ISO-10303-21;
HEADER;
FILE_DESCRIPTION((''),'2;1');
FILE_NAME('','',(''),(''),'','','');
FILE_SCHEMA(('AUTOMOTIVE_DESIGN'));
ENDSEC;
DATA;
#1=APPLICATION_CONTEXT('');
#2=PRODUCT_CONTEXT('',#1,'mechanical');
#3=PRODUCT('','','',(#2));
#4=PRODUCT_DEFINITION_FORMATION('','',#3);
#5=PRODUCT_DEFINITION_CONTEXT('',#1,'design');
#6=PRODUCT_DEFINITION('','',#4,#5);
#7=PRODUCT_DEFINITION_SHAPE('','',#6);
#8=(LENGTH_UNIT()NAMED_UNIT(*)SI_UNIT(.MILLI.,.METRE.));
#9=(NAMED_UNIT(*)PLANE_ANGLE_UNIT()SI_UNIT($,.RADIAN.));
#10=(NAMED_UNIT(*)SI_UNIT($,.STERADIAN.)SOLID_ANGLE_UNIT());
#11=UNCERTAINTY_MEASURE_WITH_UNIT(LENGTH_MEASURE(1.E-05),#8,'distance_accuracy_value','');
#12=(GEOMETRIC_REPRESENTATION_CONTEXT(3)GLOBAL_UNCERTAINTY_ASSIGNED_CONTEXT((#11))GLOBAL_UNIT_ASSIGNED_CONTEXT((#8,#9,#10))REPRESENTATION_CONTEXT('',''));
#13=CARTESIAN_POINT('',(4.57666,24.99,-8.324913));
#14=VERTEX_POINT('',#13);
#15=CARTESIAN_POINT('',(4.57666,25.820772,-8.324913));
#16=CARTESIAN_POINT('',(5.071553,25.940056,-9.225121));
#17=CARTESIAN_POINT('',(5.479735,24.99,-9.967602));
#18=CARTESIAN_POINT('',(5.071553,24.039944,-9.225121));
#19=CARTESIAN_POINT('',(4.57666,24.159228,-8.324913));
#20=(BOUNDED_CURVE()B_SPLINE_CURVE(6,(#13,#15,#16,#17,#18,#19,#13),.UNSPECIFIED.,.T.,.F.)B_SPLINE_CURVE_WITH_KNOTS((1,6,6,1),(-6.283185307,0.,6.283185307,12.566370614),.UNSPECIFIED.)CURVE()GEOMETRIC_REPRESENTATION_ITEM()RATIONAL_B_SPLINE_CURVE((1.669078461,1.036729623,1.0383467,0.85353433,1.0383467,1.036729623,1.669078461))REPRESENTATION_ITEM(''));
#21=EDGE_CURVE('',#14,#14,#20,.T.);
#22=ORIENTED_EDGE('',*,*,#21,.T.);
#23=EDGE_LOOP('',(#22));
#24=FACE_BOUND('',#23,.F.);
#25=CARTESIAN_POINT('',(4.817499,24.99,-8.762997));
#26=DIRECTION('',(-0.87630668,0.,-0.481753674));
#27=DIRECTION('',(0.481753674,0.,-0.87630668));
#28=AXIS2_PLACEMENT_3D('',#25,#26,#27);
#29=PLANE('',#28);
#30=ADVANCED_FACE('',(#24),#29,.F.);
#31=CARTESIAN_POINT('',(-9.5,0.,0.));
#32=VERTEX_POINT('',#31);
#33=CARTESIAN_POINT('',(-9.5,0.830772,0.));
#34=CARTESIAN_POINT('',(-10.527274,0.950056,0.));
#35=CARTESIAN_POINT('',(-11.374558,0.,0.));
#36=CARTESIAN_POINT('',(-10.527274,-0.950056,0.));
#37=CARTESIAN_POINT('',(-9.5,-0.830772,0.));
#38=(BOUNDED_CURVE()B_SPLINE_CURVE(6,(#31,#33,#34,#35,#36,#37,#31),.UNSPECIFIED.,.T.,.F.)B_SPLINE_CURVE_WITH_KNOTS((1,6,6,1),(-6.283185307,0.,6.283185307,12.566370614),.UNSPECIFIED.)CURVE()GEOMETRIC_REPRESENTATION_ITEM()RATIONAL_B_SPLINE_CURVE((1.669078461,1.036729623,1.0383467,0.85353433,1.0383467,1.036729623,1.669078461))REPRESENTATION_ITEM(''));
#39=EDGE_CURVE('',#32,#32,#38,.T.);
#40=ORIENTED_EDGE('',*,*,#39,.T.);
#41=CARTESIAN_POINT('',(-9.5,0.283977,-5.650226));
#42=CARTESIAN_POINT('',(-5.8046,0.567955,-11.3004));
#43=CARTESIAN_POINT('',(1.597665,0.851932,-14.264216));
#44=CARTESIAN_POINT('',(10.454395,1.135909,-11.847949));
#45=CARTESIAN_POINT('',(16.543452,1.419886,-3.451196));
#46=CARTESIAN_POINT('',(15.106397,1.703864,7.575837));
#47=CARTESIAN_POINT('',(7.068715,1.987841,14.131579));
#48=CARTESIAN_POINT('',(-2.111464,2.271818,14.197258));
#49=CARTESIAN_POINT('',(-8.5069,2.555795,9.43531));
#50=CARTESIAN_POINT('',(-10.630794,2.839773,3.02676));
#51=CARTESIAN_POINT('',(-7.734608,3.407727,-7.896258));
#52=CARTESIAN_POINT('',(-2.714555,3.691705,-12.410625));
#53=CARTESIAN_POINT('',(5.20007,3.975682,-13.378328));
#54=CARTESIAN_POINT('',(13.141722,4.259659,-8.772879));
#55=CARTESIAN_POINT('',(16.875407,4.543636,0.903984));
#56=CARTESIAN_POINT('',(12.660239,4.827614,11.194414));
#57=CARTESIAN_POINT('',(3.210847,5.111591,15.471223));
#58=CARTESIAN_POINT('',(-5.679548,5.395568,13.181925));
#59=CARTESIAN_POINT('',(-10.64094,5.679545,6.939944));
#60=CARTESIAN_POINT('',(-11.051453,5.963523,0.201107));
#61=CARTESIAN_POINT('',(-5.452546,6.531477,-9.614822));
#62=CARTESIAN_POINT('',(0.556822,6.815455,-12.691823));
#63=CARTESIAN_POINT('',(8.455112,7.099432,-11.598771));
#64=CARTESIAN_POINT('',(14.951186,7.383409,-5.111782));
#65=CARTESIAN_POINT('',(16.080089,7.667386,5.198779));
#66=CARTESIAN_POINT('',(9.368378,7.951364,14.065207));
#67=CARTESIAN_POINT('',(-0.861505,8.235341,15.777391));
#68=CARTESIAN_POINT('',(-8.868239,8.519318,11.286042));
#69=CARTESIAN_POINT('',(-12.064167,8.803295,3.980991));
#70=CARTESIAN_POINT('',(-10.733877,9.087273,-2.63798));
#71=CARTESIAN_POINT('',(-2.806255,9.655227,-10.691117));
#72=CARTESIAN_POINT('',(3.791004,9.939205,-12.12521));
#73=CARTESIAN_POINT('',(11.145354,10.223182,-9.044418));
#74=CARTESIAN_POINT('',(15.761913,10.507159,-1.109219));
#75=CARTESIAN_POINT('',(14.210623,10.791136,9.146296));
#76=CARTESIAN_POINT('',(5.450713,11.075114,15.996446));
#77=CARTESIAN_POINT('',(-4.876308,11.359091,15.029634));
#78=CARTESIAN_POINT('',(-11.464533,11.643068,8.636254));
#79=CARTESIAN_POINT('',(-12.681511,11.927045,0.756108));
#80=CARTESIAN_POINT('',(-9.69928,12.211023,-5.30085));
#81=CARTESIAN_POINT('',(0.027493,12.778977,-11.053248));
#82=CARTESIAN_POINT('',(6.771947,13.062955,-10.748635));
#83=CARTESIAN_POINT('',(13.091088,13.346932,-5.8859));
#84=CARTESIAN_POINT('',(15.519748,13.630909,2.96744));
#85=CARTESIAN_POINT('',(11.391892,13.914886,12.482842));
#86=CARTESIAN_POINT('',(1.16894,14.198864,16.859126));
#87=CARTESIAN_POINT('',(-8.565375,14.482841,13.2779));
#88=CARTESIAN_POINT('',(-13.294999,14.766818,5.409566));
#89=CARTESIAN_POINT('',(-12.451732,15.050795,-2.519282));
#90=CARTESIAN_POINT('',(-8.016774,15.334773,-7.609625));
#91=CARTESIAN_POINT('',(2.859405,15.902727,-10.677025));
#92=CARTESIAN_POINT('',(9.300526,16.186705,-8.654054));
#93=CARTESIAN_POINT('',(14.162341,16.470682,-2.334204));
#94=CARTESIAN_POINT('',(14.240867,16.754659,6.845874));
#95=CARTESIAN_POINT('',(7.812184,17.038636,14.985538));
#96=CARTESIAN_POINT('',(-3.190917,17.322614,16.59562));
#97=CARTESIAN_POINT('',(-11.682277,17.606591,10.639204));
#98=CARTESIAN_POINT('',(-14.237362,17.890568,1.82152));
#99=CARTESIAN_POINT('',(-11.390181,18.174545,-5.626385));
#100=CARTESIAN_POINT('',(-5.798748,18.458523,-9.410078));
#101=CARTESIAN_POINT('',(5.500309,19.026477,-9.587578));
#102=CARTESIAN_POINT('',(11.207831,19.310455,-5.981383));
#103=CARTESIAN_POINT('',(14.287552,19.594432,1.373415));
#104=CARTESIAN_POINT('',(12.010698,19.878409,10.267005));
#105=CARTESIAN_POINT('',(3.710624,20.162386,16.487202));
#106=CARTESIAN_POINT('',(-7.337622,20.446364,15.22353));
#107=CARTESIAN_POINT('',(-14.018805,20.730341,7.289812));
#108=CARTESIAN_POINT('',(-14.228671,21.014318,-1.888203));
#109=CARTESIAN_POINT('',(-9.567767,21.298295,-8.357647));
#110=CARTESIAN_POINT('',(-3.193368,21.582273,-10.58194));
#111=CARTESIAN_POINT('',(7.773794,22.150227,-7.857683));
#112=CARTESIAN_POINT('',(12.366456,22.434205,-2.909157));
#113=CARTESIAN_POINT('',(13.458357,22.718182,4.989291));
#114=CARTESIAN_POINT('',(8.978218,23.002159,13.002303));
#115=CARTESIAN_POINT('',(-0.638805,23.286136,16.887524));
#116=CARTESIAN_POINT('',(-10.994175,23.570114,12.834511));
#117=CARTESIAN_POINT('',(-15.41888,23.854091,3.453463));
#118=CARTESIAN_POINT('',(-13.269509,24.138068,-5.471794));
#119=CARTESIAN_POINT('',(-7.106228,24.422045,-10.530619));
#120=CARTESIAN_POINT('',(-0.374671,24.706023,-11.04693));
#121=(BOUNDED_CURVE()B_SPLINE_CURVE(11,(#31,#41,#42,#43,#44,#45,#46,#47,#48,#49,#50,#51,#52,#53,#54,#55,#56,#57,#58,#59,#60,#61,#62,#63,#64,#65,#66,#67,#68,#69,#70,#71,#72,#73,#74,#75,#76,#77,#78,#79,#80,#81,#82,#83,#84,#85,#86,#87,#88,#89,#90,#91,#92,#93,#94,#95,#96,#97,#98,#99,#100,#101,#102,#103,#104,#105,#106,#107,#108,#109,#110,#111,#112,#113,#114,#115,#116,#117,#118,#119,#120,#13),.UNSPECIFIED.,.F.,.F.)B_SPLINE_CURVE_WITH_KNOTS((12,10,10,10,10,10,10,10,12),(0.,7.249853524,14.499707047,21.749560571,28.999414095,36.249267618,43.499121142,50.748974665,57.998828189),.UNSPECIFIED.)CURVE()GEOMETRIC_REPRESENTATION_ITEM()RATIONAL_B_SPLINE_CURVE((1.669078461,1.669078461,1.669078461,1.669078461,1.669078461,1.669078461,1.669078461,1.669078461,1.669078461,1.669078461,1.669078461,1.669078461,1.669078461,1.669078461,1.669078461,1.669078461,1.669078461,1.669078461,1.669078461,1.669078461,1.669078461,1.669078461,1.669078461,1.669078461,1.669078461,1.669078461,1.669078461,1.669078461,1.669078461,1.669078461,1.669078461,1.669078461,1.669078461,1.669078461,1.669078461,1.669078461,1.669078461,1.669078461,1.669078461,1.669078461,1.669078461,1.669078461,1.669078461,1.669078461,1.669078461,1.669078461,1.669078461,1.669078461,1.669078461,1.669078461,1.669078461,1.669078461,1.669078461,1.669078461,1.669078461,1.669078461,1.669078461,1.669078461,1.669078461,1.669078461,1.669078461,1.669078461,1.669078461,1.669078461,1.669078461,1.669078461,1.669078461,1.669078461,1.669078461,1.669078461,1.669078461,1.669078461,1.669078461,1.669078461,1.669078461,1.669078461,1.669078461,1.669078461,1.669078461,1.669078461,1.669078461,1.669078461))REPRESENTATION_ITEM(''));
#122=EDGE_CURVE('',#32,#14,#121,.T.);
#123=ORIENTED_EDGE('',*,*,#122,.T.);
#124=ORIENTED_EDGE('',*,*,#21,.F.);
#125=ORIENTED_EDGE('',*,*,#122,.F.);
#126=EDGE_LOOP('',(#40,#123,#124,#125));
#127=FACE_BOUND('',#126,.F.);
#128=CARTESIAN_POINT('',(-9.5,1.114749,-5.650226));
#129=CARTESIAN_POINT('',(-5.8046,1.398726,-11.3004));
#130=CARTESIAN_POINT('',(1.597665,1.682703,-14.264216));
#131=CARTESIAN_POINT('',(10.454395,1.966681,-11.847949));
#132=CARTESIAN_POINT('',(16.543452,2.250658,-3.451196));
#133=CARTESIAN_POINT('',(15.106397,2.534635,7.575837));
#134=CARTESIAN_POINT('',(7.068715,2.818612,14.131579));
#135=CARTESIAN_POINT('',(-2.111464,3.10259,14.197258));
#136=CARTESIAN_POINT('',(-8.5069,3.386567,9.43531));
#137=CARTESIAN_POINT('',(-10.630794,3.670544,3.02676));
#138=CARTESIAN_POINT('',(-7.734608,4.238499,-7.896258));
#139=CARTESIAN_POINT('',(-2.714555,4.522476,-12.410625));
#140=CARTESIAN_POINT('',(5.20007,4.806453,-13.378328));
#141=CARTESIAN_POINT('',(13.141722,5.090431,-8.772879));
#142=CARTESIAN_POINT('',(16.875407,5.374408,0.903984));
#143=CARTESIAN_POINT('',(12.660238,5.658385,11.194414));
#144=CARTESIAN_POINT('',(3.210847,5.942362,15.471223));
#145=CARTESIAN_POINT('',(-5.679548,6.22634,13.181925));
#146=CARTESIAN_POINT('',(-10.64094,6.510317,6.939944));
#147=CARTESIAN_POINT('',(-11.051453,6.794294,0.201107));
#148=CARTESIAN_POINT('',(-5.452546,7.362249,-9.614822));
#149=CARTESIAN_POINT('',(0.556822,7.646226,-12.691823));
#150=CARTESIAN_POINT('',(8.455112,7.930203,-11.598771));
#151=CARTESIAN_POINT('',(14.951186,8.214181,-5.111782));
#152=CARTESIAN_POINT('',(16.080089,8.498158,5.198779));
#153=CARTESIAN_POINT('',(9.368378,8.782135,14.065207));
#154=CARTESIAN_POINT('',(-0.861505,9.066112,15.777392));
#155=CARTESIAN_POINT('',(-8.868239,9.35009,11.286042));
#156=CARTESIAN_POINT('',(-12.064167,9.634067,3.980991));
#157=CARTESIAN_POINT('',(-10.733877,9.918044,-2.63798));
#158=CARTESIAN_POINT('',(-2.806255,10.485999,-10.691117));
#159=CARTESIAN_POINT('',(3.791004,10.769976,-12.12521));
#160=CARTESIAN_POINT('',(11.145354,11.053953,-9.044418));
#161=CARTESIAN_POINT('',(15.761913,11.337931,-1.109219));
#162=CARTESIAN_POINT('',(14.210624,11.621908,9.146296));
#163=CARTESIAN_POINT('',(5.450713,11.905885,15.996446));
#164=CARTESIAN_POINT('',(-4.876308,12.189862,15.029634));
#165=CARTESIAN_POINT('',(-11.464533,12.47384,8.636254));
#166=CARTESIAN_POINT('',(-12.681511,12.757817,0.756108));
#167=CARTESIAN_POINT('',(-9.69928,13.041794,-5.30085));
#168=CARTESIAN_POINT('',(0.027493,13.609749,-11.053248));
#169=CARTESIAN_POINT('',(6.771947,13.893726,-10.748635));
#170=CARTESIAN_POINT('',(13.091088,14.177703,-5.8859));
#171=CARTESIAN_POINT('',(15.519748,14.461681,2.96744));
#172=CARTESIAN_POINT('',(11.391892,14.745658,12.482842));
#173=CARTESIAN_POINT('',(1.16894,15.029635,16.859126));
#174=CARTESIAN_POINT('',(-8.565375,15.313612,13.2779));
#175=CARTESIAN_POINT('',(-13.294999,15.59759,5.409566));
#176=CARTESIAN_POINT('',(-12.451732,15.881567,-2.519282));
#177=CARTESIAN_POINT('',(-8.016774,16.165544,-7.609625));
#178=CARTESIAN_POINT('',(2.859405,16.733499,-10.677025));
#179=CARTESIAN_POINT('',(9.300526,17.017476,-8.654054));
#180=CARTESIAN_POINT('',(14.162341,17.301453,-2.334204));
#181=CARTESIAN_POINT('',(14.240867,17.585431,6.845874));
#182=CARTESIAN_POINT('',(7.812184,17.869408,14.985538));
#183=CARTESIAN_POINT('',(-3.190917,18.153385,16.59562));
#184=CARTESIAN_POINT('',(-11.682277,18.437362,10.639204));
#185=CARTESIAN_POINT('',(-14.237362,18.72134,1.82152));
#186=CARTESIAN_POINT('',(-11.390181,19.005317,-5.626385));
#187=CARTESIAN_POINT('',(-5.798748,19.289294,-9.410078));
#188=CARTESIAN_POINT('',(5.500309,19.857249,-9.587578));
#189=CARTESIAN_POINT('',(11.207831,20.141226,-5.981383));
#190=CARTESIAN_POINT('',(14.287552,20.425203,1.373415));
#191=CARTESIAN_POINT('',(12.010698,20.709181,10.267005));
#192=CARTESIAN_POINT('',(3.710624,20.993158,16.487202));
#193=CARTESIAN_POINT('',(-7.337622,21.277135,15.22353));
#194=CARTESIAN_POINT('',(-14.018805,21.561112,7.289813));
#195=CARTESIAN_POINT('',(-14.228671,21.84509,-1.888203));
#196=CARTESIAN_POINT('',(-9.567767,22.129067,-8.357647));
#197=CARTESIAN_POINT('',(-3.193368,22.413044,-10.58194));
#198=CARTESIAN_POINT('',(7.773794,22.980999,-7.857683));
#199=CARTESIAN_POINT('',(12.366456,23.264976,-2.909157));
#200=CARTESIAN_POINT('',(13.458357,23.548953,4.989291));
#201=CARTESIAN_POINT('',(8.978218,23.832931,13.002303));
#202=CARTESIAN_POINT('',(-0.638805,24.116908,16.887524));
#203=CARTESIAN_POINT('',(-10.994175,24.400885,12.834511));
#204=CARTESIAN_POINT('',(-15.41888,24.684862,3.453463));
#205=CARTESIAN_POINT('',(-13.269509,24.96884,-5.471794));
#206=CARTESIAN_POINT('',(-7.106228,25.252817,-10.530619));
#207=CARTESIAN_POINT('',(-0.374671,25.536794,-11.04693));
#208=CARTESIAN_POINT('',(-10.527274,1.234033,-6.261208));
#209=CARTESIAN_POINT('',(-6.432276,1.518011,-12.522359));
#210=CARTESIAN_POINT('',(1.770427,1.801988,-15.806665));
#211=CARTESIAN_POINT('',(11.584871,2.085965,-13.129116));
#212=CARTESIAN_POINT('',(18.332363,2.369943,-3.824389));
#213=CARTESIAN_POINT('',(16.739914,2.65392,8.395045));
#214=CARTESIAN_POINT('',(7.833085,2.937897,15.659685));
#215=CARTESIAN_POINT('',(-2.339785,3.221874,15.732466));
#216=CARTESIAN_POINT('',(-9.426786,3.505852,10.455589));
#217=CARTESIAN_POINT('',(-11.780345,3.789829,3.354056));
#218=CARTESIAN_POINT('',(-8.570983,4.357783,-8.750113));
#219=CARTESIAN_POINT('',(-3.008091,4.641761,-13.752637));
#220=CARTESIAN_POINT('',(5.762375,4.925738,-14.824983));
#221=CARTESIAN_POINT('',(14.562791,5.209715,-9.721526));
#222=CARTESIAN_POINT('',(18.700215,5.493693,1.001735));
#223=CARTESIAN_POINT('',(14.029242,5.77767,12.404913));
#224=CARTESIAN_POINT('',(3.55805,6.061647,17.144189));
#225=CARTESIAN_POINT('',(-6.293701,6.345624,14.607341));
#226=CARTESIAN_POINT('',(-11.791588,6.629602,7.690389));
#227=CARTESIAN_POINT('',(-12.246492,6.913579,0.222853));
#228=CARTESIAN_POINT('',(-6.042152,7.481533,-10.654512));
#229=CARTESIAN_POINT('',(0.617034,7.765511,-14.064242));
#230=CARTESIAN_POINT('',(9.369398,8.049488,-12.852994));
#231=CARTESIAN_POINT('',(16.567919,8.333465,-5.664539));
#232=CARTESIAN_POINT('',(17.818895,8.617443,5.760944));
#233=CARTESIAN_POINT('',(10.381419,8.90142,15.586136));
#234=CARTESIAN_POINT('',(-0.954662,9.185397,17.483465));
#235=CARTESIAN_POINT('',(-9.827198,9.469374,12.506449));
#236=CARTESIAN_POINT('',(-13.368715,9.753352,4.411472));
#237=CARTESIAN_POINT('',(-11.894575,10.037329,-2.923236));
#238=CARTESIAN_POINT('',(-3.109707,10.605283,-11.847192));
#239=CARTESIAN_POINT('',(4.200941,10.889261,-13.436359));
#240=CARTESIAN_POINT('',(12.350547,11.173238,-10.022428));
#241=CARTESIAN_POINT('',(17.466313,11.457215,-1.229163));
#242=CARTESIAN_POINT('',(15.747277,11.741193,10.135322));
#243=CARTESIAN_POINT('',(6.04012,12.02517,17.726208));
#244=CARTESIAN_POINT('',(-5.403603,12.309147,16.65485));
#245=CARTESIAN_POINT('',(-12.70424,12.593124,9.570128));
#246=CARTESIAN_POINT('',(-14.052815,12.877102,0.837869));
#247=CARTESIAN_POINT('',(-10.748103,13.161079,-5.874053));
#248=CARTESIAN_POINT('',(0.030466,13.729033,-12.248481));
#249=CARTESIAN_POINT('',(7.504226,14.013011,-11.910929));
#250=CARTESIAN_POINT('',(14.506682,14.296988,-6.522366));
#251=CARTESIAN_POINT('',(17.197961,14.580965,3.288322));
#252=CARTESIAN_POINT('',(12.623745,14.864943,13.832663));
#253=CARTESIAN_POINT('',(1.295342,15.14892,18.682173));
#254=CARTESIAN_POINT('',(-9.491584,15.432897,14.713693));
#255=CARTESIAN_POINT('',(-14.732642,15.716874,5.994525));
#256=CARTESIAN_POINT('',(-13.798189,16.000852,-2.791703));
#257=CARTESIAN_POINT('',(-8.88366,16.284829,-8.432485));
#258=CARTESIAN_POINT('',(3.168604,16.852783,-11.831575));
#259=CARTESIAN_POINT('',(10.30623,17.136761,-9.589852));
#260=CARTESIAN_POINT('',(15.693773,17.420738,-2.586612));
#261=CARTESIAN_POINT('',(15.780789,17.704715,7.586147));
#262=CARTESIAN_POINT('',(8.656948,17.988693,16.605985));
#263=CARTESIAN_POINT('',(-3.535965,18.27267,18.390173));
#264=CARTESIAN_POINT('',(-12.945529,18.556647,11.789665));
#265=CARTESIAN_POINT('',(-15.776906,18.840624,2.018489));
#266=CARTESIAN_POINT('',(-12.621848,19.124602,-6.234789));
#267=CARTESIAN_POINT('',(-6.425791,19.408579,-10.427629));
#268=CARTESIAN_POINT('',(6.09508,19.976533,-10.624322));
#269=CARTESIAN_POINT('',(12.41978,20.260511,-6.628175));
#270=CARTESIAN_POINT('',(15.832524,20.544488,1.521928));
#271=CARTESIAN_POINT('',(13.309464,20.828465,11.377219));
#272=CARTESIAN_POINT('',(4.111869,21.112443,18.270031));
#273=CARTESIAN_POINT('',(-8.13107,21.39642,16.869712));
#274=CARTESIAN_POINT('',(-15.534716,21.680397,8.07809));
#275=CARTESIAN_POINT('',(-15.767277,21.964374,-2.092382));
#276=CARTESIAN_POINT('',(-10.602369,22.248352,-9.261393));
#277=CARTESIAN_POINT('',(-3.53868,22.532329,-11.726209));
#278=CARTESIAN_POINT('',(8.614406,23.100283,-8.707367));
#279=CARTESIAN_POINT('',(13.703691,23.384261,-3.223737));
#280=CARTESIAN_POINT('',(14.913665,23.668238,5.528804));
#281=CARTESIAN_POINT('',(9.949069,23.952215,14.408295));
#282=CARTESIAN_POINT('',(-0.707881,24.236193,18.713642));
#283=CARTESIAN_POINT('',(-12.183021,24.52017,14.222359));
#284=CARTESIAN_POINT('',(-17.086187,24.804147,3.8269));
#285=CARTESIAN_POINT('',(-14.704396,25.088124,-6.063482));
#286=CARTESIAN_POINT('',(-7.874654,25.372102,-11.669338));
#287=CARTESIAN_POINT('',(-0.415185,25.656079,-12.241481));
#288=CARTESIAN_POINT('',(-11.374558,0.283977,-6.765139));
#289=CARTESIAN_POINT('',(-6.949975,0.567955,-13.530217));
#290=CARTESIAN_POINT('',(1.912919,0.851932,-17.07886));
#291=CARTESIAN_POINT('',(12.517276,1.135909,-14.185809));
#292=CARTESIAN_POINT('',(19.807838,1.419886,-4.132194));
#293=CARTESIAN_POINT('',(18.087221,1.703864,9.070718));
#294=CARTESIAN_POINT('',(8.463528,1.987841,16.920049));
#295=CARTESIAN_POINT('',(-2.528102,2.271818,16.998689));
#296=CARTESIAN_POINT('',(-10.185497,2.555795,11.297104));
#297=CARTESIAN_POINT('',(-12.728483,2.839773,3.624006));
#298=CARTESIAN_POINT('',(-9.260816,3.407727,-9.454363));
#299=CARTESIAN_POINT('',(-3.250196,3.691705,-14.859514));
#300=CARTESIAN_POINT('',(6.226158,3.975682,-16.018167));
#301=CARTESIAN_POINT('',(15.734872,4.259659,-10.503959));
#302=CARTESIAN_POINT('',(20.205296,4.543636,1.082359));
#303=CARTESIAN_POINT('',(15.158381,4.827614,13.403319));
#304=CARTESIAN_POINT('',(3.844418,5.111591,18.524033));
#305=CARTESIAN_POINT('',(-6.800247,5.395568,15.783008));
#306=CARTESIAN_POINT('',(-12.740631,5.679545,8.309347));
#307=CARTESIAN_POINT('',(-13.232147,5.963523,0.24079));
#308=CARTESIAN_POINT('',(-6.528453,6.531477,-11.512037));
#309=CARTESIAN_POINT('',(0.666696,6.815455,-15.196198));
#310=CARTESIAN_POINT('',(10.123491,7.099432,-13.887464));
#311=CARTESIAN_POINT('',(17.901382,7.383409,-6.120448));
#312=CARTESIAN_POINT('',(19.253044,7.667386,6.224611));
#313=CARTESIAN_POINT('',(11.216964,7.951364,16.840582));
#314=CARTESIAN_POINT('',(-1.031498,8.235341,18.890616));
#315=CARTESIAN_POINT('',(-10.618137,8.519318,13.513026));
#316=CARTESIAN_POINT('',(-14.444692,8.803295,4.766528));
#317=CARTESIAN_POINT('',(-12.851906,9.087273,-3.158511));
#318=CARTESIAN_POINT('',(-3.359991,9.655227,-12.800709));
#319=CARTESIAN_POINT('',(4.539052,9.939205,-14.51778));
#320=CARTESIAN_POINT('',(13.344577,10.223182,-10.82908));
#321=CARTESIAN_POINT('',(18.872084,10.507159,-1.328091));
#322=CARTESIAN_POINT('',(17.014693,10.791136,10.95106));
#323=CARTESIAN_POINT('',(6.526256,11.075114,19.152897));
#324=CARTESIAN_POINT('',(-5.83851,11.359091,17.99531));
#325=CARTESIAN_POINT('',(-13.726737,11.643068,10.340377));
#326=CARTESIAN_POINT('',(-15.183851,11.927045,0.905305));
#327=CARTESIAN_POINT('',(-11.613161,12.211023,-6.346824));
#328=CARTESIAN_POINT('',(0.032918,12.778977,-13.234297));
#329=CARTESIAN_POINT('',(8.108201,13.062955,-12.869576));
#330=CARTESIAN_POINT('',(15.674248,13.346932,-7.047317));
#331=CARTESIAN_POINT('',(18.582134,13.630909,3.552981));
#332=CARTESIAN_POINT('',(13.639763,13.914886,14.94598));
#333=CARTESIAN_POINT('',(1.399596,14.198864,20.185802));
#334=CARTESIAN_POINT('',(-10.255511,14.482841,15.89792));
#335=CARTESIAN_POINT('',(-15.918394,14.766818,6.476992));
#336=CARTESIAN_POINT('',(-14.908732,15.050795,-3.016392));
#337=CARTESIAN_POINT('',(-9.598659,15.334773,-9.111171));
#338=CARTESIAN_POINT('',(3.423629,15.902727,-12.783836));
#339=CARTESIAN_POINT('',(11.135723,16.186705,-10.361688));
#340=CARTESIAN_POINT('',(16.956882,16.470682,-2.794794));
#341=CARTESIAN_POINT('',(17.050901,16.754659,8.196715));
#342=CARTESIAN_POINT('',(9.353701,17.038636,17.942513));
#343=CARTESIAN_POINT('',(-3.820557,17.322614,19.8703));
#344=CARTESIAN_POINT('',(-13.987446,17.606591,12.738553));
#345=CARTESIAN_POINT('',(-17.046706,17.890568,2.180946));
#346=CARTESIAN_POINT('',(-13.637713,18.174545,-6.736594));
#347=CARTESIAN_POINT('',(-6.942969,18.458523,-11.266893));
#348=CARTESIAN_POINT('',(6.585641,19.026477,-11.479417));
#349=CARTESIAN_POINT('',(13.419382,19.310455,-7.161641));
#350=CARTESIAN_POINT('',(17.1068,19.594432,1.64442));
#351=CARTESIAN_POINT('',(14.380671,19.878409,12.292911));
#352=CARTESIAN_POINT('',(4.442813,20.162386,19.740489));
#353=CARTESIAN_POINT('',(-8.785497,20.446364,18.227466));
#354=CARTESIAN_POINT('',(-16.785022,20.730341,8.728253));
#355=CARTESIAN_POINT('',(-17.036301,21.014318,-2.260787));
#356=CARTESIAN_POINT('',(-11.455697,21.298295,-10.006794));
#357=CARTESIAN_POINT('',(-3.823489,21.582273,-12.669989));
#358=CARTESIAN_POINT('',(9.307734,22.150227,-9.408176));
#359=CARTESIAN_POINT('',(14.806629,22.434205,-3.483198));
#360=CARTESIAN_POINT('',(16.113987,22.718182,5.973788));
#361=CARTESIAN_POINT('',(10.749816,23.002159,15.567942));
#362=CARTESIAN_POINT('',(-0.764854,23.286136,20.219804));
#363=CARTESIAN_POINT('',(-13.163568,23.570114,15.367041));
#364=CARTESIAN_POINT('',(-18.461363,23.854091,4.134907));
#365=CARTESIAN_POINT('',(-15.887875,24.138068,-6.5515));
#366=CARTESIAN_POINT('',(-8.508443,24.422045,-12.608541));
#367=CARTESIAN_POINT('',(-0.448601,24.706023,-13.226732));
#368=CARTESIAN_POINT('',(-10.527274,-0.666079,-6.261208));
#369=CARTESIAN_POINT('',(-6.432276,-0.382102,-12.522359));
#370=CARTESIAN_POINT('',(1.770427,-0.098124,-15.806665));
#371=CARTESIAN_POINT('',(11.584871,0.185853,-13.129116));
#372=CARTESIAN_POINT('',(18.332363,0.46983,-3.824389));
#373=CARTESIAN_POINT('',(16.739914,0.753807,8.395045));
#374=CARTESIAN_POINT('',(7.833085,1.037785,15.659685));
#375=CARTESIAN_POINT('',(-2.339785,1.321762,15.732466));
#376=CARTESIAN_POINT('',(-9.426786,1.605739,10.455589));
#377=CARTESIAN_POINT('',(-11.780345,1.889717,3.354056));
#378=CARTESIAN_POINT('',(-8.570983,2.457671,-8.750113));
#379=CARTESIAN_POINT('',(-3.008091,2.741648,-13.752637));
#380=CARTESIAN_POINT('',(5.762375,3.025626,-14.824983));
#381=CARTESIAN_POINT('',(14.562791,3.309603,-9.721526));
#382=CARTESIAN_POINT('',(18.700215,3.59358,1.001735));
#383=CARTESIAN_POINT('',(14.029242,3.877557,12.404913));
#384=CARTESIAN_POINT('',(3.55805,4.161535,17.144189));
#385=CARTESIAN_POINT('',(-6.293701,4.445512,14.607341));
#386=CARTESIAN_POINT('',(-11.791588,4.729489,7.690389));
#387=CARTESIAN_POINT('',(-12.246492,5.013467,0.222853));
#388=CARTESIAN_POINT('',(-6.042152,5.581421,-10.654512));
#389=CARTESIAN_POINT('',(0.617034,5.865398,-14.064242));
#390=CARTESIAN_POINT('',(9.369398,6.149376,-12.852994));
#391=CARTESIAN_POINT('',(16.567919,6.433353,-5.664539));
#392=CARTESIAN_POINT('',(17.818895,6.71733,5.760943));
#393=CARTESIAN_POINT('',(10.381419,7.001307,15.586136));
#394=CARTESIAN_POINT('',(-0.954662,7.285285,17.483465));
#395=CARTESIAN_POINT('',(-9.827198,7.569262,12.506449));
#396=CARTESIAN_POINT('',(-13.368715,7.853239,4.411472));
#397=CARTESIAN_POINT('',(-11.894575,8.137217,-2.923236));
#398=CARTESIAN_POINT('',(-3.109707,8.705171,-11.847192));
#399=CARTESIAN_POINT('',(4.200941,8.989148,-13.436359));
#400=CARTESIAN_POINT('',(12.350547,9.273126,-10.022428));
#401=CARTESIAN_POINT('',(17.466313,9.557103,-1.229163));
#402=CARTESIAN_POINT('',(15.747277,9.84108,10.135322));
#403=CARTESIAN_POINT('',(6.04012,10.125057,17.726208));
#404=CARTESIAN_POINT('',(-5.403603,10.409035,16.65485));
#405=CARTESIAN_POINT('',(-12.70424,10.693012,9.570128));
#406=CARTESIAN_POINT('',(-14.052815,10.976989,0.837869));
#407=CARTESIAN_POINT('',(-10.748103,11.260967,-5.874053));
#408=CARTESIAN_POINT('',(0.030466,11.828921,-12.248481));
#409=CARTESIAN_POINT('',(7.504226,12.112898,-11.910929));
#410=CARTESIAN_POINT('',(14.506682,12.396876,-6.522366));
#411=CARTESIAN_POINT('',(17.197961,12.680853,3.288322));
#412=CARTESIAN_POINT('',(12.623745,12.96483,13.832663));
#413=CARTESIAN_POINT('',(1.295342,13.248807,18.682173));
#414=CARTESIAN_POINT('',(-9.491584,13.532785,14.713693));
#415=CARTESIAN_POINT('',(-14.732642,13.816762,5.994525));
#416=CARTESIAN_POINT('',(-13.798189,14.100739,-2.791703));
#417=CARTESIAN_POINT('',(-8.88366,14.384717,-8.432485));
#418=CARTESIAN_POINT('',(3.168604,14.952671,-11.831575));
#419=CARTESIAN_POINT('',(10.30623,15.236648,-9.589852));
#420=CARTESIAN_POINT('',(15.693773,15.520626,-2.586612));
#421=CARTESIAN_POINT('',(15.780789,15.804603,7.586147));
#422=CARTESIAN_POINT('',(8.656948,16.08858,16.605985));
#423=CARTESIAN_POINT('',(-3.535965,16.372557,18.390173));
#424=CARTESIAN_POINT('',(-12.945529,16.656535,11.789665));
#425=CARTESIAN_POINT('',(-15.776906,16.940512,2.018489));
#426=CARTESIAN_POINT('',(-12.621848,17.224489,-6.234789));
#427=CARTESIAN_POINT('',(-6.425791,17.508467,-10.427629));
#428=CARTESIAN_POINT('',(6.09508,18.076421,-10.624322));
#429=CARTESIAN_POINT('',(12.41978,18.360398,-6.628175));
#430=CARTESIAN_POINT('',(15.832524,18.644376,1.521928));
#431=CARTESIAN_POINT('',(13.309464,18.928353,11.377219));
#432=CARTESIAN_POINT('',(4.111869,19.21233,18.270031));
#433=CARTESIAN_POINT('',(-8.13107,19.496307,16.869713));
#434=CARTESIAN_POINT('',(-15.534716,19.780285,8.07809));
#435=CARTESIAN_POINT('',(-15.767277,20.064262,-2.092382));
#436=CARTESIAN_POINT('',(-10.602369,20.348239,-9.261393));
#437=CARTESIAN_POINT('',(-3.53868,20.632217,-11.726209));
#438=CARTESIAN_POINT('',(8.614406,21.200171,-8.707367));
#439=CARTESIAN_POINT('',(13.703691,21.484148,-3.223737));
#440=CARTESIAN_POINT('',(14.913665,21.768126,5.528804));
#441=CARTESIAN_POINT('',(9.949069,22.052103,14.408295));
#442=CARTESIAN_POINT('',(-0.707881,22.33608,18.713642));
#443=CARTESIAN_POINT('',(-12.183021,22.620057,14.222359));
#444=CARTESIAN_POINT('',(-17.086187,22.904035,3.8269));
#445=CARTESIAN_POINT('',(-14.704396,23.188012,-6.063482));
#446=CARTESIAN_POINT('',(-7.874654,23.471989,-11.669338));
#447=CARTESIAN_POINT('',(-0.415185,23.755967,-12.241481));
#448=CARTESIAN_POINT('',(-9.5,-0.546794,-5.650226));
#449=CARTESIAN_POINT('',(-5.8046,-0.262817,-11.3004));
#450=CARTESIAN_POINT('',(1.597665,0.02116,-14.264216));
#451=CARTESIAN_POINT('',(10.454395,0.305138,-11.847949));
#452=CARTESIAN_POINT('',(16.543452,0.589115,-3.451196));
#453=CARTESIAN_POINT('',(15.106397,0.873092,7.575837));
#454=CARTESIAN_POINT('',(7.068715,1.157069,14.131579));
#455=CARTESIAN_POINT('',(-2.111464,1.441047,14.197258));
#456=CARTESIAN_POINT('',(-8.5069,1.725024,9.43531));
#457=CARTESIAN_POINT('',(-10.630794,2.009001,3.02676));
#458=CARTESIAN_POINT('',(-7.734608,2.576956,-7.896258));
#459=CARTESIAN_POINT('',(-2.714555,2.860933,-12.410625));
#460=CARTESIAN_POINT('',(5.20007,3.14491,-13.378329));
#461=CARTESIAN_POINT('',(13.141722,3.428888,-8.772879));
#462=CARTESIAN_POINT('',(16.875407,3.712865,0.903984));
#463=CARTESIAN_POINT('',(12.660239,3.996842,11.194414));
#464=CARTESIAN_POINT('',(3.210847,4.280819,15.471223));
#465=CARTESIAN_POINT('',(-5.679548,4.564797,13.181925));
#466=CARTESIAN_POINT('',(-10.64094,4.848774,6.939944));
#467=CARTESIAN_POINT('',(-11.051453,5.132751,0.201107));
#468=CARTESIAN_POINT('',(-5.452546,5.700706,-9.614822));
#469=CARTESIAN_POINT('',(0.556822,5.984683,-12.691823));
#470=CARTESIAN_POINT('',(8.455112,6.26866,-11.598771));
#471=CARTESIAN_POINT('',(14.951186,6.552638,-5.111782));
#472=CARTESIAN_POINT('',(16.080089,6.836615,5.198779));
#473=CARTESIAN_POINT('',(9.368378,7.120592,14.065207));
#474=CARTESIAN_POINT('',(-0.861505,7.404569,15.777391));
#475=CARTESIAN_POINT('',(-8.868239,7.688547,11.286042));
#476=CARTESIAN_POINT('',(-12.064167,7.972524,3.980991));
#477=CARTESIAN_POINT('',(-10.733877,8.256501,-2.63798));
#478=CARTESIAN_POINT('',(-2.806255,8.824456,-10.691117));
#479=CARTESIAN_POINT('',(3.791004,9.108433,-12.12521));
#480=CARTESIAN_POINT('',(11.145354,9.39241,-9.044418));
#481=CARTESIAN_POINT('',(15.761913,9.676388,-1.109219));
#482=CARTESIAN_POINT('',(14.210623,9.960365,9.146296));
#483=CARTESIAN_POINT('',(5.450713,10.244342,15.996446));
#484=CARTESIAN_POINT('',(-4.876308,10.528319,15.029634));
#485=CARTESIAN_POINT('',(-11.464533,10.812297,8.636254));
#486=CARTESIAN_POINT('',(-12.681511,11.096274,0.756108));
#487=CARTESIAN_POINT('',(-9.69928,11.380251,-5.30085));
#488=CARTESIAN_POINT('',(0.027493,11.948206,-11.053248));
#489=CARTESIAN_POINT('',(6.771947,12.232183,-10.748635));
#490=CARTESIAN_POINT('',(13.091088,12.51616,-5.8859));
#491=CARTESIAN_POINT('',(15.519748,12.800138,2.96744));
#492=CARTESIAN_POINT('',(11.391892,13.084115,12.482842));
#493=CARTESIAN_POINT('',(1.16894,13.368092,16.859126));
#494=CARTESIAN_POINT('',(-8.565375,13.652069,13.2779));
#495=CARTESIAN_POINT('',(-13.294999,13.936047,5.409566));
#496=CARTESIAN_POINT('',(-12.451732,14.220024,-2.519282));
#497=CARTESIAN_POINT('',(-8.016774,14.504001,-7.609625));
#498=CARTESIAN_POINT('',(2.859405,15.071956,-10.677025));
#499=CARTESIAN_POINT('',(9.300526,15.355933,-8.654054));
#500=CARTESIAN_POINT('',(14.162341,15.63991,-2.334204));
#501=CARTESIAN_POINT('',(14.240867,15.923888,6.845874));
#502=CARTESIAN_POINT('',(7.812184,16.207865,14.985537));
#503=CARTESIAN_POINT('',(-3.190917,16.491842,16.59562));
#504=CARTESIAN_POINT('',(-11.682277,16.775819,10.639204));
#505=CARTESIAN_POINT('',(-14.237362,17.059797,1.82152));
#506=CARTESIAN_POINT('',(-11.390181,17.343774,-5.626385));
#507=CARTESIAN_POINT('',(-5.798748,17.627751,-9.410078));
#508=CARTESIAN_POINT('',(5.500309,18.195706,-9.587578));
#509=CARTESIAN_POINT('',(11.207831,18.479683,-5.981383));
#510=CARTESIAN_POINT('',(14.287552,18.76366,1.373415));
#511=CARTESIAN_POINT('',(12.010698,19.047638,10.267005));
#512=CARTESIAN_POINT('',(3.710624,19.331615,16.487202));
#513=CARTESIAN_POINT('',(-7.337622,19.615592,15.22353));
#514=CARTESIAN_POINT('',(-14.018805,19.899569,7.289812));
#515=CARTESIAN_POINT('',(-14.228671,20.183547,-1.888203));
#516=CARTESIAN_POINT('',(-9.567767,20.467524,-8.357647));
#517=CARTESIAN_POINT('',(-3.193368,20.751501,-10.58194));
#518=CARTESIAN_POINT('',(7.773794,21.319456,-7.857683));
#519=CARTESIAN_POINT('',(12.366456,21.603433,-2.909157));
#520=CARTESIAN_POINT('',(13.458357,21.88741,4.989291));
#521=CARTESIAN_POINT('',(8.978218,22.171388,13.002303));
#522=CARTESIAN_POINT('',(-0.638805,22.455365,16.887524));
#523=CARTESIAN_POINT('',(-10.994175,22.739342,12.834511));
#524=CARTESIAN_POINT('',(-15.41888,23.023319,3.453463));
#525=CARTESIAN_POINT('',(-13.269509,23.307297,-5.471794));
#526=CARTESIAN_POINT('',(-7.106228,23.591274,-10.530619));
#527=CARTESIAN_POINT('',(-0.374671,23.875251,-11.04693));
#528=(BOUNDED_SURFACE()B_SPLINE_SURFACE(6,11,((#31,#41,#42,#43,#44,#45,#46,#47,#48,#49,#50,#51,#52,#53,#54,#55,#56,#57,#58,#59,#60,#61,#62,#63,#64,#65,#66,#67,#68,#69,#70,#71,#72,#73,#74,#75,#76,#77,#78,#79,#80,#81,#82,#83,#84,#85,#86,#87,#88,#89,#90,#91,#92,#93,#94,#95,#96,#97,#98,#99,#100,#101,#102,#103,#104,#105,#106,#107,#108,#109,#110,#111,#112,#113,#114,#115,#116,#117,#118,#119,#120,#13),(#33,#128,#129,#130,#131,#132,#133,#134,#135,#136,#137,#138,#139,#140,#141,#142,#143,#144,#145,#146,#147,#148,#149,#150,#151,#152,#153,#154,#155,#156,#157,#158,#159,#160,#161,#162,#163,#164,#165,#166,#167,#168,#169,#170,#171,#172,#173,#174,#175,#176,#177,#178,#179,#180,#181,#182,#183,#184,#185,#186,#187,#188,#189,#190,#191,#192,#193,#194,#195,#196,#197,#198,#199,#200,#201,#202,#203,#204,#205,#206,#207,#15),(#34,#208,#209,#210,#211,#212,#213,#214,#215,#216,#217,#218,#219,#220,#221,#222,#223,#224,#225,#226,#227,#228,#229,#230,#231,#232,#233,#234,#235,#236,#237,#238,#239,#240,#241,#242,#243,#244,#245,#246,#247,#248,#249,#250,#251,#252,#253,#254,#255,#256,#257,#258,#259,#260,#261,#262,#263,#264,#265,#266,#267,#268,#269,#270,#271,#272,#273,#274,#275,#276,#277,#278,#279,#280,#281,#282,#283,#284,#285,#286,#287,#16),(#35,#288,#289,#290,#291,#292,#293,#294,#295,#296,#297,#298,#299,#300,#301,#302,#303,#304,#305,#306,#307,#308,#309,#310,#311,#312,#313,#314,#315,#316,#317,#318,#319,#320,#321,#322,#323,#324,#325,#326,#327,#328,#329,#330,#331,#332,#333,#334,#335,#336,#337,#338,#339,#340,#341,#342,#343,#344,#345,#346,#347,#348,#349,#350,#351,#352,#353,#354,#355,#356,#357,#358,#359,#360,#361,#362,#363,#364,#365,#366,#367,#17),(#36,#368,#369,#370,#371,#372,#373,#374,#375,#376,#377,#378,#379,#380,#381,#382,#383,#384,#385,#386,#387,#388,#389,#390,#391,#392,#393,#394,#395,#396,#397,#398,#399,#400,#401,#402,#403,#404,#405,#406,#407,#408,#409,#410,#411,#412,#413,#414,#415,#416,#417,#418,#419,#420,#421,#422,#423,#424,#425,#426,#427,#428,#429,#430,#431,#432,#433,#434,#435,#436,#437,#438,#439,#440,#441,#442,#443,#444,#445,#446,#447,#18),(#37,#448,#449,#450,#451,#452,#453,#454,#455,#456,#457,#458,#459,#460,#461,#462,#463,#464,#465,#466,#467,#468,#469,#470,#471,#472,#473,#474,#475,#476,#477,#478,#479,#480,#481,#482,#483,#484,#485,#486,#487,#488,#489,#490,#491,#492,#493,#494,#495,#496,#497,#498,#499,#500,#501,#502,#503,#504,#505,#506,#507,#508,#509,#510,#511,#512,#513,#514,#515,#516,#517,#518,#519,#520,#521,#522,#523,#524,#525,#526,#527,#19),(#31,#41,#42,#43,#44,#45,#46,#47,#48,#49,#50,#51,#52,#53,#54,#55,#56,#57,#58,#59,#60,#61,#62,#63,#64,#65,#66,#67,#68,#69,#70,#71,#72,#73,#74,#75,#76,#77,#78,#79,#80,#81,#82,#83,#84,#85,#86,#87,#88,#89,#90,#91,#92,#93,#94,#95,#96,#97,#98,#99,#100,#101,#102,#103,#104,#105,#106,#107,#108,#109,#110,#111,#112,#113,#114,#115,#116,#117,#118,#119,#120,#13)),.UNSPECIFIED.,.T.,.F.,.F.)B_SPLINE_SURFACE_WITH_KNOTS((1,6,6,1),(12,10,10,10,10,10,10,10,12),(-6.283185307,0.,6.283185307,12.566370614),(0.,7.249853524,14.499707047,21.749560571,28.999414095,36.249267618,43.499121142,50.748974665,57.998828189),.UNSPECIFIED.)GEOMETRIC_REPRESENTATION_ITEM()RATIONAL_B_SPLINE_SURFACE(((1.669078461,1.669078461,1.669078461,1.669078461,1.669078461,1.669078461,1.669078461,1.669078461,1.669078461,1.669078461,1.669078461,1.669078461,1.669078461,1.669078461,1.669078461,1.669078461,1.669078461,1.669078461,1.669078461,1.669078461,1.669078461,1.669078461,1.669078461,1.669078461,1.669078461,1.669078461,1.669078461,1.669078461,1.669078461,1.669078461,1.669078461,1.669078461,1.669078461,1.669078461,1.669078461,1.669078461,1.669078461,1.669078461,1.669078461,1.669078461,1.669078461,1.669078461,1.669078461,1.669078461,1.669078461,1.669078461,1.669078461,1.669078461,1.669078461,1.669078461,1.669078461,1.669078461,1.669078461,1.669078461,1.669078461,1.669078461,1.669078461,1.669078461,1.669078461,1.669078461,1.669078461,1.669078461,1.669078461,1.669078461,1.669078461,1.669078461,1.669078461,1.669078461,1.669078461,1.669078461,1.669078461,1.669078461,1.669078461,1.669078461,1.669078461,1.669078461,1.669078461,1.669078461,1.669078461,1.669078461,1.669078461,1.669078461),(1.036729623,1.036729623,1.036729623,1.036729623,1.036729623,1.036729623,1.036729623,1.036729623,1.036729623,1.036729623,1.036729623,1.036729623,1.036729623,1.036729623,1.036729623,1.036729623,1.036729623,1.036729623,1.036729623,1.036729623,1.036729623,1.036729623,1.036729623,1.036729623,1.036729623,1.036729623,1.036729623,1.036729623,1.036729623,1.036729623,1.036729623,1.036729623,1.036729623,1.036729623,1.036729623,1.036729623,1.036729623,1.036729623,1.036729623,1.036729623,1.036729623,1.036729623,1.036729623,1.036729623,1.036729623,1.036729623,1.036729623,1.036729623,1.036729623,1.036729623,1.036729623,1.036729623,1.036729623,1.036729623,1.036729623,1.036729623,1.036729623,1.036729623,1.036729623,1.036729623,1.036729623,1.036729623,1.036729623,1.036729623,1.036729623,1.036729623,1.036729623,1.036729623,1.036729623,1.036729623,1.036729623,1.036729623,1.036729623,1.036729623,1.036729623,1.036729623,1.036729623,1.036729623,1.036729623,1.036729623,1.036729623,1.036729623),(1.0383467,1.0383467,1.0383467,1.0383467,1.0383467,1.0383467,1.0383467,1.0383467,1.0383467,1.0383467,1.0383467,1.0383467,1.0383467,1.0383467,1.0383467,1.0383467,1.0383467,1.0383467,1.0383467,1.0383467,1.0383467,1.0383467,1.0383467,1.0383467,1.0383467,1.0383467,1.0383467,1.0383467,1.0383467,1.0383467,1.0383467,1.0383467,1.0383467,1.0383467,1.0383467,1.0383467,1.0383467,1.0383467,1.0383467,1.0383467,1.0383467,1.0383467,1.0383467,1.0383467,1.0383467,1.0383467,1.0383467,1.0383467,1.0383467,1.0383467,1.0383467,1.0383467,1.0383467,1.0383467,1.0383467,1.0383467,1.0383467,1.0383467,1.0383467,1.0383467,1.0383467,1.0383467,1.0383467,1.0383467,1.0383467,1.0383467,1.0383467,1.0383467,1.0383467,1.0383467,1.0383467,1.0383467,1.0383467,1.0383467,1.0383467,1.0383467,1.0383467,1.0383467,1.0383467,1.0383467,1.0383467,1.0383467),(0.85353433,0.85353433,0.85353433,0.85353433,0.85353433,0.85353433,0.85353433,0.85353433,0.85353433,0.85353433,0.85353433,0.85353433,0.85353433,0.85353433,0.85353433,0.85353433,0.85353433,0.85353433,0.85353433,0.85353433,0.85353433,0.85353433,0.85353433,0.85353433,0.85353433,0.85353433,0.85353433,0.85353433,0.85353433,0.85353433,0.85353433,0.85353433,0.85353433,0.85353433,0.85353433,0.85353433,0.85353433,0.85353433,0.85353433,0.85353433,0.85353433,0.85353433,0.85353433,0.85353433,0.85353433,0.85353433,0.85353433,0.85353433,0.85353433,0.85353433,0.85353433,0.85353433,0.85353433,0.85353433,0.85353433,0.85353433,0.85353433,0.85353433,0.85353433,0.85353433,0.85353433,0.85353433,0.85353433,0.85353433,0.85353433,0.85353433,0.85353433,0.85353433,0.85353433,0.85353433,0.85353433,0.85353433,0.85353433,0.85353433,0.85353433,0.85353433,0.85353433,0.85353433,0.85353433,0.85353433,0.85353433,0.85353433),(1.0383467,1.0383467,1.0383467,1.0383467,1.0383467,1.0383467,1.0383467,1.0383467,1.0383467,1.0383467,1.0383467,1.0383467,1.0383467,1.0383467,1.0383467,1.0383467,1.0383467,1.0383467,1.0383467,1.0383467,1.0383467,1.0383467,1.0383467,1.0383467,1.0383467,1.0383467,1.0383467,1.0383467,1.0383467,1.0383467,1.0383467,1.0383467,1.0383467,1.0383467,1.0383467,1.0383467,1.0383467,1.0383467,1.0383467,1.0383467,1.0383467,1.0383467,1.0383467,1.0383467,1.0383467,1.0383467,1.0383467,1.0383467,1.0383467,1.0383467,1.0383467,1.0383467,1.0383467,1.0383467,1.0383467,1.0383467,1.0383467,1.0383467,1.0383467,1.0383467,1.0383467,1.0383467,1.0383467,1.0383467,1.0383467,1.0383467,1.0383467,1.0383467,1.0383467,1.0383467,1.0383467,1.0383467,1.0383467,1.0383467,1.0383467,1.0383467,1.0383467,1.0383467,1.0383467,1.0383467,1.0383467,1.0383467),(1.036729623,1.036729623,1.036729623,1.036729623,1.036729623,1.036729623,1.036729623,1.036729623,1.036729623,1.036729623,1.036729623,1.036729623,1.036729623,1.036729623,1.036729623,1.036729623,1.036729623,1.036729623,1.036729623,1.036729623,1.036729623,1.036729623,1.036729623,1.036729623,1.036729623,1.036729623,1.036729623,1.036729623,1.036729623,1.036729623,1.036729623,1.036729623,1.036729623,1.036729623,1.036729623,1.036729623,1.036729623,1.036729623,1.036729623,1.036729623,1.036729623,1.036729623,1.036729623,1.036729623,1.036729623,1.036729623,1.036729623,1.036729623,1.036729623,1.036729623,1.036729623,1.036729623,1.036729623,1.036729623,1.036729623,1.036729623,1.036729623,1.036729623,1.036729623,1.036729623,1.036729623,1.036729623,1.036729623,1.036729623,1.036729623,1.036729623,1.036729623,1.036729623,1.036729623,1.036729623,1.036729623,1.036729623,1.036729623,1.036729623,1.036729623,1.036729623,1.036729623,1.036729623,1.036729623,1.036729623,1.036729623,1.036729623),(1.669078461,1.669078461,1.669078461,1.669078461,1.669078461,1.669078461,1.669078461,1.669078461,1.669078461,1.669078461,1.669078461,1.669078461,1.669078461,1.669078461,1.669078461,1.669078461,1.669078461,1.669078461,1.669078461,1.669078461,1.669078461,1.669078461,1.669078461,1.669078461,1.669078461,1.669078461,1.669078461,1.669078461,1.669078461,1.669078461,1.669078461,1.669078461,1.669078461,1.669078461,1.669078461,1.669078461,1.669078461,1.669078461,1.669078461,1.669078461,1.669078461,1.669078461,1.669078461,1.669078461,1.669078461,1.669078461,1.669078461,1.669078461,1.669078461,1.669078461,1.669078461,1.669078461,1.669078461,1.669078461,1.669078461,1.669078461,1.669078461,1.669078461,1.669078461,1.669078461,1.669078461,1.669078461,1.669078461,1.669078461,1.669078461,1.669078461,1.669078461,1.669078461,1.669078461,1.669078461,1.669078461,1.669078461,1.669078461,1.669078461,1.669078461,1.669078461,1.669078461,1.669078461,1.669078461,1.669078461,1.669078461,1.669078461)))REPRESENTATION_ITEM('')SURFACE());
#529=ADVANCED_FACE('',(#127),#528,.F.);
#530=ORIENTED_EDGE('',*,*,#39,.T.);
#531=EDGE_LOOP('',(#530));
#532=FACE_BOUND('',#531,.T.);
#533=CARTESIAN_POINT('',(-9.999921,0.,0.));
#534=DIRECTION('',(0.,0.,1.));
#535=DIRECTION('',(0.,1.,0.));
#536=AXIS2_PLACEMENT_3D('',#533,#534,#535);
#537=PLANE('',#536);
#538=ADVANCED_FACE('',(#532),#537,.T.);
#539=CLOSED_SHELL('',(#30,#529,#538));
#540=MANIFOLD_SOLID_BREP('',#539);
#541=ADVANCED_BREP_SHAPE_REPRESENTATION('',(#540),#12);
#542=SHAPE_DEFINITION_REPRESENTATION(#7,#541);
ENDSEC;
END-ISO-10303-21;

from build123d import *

# Parameters (mm, degrees)
SWEEP1_PITCH       = 3
SWEEP1_HEIGHT      = 24.99
SWEEP1_RADIUS      = 10
SWEEP1_START_ANGLE = -90
SKETCH4_R          = 0.5


with BuildPart() as part:
    # Sweep1: sweep along a helix
    with BuildLine() as sweep1_path:
        add(Helix(SWEEP1_PITCH, SWEEP1_HEIGHT, SWEEP1_RADIUS, center=(0, 0, 0), direction=(0, 1, 0), lefthand=True, mode=Mode.PRIVATE).rotate(Axis((0, 0, 0), (0, 1, 0)), SWEEP1_START_ANGLE))
    # Sketch4 → Sweep1 (sweep)
    with BuildSketch(Plane.XY):
        with Locations((-10, 0)):
            Circle(SKETCH4_R)
    sweep(path=sweep1_path.line, is_frenet=True)


solid = part.part
